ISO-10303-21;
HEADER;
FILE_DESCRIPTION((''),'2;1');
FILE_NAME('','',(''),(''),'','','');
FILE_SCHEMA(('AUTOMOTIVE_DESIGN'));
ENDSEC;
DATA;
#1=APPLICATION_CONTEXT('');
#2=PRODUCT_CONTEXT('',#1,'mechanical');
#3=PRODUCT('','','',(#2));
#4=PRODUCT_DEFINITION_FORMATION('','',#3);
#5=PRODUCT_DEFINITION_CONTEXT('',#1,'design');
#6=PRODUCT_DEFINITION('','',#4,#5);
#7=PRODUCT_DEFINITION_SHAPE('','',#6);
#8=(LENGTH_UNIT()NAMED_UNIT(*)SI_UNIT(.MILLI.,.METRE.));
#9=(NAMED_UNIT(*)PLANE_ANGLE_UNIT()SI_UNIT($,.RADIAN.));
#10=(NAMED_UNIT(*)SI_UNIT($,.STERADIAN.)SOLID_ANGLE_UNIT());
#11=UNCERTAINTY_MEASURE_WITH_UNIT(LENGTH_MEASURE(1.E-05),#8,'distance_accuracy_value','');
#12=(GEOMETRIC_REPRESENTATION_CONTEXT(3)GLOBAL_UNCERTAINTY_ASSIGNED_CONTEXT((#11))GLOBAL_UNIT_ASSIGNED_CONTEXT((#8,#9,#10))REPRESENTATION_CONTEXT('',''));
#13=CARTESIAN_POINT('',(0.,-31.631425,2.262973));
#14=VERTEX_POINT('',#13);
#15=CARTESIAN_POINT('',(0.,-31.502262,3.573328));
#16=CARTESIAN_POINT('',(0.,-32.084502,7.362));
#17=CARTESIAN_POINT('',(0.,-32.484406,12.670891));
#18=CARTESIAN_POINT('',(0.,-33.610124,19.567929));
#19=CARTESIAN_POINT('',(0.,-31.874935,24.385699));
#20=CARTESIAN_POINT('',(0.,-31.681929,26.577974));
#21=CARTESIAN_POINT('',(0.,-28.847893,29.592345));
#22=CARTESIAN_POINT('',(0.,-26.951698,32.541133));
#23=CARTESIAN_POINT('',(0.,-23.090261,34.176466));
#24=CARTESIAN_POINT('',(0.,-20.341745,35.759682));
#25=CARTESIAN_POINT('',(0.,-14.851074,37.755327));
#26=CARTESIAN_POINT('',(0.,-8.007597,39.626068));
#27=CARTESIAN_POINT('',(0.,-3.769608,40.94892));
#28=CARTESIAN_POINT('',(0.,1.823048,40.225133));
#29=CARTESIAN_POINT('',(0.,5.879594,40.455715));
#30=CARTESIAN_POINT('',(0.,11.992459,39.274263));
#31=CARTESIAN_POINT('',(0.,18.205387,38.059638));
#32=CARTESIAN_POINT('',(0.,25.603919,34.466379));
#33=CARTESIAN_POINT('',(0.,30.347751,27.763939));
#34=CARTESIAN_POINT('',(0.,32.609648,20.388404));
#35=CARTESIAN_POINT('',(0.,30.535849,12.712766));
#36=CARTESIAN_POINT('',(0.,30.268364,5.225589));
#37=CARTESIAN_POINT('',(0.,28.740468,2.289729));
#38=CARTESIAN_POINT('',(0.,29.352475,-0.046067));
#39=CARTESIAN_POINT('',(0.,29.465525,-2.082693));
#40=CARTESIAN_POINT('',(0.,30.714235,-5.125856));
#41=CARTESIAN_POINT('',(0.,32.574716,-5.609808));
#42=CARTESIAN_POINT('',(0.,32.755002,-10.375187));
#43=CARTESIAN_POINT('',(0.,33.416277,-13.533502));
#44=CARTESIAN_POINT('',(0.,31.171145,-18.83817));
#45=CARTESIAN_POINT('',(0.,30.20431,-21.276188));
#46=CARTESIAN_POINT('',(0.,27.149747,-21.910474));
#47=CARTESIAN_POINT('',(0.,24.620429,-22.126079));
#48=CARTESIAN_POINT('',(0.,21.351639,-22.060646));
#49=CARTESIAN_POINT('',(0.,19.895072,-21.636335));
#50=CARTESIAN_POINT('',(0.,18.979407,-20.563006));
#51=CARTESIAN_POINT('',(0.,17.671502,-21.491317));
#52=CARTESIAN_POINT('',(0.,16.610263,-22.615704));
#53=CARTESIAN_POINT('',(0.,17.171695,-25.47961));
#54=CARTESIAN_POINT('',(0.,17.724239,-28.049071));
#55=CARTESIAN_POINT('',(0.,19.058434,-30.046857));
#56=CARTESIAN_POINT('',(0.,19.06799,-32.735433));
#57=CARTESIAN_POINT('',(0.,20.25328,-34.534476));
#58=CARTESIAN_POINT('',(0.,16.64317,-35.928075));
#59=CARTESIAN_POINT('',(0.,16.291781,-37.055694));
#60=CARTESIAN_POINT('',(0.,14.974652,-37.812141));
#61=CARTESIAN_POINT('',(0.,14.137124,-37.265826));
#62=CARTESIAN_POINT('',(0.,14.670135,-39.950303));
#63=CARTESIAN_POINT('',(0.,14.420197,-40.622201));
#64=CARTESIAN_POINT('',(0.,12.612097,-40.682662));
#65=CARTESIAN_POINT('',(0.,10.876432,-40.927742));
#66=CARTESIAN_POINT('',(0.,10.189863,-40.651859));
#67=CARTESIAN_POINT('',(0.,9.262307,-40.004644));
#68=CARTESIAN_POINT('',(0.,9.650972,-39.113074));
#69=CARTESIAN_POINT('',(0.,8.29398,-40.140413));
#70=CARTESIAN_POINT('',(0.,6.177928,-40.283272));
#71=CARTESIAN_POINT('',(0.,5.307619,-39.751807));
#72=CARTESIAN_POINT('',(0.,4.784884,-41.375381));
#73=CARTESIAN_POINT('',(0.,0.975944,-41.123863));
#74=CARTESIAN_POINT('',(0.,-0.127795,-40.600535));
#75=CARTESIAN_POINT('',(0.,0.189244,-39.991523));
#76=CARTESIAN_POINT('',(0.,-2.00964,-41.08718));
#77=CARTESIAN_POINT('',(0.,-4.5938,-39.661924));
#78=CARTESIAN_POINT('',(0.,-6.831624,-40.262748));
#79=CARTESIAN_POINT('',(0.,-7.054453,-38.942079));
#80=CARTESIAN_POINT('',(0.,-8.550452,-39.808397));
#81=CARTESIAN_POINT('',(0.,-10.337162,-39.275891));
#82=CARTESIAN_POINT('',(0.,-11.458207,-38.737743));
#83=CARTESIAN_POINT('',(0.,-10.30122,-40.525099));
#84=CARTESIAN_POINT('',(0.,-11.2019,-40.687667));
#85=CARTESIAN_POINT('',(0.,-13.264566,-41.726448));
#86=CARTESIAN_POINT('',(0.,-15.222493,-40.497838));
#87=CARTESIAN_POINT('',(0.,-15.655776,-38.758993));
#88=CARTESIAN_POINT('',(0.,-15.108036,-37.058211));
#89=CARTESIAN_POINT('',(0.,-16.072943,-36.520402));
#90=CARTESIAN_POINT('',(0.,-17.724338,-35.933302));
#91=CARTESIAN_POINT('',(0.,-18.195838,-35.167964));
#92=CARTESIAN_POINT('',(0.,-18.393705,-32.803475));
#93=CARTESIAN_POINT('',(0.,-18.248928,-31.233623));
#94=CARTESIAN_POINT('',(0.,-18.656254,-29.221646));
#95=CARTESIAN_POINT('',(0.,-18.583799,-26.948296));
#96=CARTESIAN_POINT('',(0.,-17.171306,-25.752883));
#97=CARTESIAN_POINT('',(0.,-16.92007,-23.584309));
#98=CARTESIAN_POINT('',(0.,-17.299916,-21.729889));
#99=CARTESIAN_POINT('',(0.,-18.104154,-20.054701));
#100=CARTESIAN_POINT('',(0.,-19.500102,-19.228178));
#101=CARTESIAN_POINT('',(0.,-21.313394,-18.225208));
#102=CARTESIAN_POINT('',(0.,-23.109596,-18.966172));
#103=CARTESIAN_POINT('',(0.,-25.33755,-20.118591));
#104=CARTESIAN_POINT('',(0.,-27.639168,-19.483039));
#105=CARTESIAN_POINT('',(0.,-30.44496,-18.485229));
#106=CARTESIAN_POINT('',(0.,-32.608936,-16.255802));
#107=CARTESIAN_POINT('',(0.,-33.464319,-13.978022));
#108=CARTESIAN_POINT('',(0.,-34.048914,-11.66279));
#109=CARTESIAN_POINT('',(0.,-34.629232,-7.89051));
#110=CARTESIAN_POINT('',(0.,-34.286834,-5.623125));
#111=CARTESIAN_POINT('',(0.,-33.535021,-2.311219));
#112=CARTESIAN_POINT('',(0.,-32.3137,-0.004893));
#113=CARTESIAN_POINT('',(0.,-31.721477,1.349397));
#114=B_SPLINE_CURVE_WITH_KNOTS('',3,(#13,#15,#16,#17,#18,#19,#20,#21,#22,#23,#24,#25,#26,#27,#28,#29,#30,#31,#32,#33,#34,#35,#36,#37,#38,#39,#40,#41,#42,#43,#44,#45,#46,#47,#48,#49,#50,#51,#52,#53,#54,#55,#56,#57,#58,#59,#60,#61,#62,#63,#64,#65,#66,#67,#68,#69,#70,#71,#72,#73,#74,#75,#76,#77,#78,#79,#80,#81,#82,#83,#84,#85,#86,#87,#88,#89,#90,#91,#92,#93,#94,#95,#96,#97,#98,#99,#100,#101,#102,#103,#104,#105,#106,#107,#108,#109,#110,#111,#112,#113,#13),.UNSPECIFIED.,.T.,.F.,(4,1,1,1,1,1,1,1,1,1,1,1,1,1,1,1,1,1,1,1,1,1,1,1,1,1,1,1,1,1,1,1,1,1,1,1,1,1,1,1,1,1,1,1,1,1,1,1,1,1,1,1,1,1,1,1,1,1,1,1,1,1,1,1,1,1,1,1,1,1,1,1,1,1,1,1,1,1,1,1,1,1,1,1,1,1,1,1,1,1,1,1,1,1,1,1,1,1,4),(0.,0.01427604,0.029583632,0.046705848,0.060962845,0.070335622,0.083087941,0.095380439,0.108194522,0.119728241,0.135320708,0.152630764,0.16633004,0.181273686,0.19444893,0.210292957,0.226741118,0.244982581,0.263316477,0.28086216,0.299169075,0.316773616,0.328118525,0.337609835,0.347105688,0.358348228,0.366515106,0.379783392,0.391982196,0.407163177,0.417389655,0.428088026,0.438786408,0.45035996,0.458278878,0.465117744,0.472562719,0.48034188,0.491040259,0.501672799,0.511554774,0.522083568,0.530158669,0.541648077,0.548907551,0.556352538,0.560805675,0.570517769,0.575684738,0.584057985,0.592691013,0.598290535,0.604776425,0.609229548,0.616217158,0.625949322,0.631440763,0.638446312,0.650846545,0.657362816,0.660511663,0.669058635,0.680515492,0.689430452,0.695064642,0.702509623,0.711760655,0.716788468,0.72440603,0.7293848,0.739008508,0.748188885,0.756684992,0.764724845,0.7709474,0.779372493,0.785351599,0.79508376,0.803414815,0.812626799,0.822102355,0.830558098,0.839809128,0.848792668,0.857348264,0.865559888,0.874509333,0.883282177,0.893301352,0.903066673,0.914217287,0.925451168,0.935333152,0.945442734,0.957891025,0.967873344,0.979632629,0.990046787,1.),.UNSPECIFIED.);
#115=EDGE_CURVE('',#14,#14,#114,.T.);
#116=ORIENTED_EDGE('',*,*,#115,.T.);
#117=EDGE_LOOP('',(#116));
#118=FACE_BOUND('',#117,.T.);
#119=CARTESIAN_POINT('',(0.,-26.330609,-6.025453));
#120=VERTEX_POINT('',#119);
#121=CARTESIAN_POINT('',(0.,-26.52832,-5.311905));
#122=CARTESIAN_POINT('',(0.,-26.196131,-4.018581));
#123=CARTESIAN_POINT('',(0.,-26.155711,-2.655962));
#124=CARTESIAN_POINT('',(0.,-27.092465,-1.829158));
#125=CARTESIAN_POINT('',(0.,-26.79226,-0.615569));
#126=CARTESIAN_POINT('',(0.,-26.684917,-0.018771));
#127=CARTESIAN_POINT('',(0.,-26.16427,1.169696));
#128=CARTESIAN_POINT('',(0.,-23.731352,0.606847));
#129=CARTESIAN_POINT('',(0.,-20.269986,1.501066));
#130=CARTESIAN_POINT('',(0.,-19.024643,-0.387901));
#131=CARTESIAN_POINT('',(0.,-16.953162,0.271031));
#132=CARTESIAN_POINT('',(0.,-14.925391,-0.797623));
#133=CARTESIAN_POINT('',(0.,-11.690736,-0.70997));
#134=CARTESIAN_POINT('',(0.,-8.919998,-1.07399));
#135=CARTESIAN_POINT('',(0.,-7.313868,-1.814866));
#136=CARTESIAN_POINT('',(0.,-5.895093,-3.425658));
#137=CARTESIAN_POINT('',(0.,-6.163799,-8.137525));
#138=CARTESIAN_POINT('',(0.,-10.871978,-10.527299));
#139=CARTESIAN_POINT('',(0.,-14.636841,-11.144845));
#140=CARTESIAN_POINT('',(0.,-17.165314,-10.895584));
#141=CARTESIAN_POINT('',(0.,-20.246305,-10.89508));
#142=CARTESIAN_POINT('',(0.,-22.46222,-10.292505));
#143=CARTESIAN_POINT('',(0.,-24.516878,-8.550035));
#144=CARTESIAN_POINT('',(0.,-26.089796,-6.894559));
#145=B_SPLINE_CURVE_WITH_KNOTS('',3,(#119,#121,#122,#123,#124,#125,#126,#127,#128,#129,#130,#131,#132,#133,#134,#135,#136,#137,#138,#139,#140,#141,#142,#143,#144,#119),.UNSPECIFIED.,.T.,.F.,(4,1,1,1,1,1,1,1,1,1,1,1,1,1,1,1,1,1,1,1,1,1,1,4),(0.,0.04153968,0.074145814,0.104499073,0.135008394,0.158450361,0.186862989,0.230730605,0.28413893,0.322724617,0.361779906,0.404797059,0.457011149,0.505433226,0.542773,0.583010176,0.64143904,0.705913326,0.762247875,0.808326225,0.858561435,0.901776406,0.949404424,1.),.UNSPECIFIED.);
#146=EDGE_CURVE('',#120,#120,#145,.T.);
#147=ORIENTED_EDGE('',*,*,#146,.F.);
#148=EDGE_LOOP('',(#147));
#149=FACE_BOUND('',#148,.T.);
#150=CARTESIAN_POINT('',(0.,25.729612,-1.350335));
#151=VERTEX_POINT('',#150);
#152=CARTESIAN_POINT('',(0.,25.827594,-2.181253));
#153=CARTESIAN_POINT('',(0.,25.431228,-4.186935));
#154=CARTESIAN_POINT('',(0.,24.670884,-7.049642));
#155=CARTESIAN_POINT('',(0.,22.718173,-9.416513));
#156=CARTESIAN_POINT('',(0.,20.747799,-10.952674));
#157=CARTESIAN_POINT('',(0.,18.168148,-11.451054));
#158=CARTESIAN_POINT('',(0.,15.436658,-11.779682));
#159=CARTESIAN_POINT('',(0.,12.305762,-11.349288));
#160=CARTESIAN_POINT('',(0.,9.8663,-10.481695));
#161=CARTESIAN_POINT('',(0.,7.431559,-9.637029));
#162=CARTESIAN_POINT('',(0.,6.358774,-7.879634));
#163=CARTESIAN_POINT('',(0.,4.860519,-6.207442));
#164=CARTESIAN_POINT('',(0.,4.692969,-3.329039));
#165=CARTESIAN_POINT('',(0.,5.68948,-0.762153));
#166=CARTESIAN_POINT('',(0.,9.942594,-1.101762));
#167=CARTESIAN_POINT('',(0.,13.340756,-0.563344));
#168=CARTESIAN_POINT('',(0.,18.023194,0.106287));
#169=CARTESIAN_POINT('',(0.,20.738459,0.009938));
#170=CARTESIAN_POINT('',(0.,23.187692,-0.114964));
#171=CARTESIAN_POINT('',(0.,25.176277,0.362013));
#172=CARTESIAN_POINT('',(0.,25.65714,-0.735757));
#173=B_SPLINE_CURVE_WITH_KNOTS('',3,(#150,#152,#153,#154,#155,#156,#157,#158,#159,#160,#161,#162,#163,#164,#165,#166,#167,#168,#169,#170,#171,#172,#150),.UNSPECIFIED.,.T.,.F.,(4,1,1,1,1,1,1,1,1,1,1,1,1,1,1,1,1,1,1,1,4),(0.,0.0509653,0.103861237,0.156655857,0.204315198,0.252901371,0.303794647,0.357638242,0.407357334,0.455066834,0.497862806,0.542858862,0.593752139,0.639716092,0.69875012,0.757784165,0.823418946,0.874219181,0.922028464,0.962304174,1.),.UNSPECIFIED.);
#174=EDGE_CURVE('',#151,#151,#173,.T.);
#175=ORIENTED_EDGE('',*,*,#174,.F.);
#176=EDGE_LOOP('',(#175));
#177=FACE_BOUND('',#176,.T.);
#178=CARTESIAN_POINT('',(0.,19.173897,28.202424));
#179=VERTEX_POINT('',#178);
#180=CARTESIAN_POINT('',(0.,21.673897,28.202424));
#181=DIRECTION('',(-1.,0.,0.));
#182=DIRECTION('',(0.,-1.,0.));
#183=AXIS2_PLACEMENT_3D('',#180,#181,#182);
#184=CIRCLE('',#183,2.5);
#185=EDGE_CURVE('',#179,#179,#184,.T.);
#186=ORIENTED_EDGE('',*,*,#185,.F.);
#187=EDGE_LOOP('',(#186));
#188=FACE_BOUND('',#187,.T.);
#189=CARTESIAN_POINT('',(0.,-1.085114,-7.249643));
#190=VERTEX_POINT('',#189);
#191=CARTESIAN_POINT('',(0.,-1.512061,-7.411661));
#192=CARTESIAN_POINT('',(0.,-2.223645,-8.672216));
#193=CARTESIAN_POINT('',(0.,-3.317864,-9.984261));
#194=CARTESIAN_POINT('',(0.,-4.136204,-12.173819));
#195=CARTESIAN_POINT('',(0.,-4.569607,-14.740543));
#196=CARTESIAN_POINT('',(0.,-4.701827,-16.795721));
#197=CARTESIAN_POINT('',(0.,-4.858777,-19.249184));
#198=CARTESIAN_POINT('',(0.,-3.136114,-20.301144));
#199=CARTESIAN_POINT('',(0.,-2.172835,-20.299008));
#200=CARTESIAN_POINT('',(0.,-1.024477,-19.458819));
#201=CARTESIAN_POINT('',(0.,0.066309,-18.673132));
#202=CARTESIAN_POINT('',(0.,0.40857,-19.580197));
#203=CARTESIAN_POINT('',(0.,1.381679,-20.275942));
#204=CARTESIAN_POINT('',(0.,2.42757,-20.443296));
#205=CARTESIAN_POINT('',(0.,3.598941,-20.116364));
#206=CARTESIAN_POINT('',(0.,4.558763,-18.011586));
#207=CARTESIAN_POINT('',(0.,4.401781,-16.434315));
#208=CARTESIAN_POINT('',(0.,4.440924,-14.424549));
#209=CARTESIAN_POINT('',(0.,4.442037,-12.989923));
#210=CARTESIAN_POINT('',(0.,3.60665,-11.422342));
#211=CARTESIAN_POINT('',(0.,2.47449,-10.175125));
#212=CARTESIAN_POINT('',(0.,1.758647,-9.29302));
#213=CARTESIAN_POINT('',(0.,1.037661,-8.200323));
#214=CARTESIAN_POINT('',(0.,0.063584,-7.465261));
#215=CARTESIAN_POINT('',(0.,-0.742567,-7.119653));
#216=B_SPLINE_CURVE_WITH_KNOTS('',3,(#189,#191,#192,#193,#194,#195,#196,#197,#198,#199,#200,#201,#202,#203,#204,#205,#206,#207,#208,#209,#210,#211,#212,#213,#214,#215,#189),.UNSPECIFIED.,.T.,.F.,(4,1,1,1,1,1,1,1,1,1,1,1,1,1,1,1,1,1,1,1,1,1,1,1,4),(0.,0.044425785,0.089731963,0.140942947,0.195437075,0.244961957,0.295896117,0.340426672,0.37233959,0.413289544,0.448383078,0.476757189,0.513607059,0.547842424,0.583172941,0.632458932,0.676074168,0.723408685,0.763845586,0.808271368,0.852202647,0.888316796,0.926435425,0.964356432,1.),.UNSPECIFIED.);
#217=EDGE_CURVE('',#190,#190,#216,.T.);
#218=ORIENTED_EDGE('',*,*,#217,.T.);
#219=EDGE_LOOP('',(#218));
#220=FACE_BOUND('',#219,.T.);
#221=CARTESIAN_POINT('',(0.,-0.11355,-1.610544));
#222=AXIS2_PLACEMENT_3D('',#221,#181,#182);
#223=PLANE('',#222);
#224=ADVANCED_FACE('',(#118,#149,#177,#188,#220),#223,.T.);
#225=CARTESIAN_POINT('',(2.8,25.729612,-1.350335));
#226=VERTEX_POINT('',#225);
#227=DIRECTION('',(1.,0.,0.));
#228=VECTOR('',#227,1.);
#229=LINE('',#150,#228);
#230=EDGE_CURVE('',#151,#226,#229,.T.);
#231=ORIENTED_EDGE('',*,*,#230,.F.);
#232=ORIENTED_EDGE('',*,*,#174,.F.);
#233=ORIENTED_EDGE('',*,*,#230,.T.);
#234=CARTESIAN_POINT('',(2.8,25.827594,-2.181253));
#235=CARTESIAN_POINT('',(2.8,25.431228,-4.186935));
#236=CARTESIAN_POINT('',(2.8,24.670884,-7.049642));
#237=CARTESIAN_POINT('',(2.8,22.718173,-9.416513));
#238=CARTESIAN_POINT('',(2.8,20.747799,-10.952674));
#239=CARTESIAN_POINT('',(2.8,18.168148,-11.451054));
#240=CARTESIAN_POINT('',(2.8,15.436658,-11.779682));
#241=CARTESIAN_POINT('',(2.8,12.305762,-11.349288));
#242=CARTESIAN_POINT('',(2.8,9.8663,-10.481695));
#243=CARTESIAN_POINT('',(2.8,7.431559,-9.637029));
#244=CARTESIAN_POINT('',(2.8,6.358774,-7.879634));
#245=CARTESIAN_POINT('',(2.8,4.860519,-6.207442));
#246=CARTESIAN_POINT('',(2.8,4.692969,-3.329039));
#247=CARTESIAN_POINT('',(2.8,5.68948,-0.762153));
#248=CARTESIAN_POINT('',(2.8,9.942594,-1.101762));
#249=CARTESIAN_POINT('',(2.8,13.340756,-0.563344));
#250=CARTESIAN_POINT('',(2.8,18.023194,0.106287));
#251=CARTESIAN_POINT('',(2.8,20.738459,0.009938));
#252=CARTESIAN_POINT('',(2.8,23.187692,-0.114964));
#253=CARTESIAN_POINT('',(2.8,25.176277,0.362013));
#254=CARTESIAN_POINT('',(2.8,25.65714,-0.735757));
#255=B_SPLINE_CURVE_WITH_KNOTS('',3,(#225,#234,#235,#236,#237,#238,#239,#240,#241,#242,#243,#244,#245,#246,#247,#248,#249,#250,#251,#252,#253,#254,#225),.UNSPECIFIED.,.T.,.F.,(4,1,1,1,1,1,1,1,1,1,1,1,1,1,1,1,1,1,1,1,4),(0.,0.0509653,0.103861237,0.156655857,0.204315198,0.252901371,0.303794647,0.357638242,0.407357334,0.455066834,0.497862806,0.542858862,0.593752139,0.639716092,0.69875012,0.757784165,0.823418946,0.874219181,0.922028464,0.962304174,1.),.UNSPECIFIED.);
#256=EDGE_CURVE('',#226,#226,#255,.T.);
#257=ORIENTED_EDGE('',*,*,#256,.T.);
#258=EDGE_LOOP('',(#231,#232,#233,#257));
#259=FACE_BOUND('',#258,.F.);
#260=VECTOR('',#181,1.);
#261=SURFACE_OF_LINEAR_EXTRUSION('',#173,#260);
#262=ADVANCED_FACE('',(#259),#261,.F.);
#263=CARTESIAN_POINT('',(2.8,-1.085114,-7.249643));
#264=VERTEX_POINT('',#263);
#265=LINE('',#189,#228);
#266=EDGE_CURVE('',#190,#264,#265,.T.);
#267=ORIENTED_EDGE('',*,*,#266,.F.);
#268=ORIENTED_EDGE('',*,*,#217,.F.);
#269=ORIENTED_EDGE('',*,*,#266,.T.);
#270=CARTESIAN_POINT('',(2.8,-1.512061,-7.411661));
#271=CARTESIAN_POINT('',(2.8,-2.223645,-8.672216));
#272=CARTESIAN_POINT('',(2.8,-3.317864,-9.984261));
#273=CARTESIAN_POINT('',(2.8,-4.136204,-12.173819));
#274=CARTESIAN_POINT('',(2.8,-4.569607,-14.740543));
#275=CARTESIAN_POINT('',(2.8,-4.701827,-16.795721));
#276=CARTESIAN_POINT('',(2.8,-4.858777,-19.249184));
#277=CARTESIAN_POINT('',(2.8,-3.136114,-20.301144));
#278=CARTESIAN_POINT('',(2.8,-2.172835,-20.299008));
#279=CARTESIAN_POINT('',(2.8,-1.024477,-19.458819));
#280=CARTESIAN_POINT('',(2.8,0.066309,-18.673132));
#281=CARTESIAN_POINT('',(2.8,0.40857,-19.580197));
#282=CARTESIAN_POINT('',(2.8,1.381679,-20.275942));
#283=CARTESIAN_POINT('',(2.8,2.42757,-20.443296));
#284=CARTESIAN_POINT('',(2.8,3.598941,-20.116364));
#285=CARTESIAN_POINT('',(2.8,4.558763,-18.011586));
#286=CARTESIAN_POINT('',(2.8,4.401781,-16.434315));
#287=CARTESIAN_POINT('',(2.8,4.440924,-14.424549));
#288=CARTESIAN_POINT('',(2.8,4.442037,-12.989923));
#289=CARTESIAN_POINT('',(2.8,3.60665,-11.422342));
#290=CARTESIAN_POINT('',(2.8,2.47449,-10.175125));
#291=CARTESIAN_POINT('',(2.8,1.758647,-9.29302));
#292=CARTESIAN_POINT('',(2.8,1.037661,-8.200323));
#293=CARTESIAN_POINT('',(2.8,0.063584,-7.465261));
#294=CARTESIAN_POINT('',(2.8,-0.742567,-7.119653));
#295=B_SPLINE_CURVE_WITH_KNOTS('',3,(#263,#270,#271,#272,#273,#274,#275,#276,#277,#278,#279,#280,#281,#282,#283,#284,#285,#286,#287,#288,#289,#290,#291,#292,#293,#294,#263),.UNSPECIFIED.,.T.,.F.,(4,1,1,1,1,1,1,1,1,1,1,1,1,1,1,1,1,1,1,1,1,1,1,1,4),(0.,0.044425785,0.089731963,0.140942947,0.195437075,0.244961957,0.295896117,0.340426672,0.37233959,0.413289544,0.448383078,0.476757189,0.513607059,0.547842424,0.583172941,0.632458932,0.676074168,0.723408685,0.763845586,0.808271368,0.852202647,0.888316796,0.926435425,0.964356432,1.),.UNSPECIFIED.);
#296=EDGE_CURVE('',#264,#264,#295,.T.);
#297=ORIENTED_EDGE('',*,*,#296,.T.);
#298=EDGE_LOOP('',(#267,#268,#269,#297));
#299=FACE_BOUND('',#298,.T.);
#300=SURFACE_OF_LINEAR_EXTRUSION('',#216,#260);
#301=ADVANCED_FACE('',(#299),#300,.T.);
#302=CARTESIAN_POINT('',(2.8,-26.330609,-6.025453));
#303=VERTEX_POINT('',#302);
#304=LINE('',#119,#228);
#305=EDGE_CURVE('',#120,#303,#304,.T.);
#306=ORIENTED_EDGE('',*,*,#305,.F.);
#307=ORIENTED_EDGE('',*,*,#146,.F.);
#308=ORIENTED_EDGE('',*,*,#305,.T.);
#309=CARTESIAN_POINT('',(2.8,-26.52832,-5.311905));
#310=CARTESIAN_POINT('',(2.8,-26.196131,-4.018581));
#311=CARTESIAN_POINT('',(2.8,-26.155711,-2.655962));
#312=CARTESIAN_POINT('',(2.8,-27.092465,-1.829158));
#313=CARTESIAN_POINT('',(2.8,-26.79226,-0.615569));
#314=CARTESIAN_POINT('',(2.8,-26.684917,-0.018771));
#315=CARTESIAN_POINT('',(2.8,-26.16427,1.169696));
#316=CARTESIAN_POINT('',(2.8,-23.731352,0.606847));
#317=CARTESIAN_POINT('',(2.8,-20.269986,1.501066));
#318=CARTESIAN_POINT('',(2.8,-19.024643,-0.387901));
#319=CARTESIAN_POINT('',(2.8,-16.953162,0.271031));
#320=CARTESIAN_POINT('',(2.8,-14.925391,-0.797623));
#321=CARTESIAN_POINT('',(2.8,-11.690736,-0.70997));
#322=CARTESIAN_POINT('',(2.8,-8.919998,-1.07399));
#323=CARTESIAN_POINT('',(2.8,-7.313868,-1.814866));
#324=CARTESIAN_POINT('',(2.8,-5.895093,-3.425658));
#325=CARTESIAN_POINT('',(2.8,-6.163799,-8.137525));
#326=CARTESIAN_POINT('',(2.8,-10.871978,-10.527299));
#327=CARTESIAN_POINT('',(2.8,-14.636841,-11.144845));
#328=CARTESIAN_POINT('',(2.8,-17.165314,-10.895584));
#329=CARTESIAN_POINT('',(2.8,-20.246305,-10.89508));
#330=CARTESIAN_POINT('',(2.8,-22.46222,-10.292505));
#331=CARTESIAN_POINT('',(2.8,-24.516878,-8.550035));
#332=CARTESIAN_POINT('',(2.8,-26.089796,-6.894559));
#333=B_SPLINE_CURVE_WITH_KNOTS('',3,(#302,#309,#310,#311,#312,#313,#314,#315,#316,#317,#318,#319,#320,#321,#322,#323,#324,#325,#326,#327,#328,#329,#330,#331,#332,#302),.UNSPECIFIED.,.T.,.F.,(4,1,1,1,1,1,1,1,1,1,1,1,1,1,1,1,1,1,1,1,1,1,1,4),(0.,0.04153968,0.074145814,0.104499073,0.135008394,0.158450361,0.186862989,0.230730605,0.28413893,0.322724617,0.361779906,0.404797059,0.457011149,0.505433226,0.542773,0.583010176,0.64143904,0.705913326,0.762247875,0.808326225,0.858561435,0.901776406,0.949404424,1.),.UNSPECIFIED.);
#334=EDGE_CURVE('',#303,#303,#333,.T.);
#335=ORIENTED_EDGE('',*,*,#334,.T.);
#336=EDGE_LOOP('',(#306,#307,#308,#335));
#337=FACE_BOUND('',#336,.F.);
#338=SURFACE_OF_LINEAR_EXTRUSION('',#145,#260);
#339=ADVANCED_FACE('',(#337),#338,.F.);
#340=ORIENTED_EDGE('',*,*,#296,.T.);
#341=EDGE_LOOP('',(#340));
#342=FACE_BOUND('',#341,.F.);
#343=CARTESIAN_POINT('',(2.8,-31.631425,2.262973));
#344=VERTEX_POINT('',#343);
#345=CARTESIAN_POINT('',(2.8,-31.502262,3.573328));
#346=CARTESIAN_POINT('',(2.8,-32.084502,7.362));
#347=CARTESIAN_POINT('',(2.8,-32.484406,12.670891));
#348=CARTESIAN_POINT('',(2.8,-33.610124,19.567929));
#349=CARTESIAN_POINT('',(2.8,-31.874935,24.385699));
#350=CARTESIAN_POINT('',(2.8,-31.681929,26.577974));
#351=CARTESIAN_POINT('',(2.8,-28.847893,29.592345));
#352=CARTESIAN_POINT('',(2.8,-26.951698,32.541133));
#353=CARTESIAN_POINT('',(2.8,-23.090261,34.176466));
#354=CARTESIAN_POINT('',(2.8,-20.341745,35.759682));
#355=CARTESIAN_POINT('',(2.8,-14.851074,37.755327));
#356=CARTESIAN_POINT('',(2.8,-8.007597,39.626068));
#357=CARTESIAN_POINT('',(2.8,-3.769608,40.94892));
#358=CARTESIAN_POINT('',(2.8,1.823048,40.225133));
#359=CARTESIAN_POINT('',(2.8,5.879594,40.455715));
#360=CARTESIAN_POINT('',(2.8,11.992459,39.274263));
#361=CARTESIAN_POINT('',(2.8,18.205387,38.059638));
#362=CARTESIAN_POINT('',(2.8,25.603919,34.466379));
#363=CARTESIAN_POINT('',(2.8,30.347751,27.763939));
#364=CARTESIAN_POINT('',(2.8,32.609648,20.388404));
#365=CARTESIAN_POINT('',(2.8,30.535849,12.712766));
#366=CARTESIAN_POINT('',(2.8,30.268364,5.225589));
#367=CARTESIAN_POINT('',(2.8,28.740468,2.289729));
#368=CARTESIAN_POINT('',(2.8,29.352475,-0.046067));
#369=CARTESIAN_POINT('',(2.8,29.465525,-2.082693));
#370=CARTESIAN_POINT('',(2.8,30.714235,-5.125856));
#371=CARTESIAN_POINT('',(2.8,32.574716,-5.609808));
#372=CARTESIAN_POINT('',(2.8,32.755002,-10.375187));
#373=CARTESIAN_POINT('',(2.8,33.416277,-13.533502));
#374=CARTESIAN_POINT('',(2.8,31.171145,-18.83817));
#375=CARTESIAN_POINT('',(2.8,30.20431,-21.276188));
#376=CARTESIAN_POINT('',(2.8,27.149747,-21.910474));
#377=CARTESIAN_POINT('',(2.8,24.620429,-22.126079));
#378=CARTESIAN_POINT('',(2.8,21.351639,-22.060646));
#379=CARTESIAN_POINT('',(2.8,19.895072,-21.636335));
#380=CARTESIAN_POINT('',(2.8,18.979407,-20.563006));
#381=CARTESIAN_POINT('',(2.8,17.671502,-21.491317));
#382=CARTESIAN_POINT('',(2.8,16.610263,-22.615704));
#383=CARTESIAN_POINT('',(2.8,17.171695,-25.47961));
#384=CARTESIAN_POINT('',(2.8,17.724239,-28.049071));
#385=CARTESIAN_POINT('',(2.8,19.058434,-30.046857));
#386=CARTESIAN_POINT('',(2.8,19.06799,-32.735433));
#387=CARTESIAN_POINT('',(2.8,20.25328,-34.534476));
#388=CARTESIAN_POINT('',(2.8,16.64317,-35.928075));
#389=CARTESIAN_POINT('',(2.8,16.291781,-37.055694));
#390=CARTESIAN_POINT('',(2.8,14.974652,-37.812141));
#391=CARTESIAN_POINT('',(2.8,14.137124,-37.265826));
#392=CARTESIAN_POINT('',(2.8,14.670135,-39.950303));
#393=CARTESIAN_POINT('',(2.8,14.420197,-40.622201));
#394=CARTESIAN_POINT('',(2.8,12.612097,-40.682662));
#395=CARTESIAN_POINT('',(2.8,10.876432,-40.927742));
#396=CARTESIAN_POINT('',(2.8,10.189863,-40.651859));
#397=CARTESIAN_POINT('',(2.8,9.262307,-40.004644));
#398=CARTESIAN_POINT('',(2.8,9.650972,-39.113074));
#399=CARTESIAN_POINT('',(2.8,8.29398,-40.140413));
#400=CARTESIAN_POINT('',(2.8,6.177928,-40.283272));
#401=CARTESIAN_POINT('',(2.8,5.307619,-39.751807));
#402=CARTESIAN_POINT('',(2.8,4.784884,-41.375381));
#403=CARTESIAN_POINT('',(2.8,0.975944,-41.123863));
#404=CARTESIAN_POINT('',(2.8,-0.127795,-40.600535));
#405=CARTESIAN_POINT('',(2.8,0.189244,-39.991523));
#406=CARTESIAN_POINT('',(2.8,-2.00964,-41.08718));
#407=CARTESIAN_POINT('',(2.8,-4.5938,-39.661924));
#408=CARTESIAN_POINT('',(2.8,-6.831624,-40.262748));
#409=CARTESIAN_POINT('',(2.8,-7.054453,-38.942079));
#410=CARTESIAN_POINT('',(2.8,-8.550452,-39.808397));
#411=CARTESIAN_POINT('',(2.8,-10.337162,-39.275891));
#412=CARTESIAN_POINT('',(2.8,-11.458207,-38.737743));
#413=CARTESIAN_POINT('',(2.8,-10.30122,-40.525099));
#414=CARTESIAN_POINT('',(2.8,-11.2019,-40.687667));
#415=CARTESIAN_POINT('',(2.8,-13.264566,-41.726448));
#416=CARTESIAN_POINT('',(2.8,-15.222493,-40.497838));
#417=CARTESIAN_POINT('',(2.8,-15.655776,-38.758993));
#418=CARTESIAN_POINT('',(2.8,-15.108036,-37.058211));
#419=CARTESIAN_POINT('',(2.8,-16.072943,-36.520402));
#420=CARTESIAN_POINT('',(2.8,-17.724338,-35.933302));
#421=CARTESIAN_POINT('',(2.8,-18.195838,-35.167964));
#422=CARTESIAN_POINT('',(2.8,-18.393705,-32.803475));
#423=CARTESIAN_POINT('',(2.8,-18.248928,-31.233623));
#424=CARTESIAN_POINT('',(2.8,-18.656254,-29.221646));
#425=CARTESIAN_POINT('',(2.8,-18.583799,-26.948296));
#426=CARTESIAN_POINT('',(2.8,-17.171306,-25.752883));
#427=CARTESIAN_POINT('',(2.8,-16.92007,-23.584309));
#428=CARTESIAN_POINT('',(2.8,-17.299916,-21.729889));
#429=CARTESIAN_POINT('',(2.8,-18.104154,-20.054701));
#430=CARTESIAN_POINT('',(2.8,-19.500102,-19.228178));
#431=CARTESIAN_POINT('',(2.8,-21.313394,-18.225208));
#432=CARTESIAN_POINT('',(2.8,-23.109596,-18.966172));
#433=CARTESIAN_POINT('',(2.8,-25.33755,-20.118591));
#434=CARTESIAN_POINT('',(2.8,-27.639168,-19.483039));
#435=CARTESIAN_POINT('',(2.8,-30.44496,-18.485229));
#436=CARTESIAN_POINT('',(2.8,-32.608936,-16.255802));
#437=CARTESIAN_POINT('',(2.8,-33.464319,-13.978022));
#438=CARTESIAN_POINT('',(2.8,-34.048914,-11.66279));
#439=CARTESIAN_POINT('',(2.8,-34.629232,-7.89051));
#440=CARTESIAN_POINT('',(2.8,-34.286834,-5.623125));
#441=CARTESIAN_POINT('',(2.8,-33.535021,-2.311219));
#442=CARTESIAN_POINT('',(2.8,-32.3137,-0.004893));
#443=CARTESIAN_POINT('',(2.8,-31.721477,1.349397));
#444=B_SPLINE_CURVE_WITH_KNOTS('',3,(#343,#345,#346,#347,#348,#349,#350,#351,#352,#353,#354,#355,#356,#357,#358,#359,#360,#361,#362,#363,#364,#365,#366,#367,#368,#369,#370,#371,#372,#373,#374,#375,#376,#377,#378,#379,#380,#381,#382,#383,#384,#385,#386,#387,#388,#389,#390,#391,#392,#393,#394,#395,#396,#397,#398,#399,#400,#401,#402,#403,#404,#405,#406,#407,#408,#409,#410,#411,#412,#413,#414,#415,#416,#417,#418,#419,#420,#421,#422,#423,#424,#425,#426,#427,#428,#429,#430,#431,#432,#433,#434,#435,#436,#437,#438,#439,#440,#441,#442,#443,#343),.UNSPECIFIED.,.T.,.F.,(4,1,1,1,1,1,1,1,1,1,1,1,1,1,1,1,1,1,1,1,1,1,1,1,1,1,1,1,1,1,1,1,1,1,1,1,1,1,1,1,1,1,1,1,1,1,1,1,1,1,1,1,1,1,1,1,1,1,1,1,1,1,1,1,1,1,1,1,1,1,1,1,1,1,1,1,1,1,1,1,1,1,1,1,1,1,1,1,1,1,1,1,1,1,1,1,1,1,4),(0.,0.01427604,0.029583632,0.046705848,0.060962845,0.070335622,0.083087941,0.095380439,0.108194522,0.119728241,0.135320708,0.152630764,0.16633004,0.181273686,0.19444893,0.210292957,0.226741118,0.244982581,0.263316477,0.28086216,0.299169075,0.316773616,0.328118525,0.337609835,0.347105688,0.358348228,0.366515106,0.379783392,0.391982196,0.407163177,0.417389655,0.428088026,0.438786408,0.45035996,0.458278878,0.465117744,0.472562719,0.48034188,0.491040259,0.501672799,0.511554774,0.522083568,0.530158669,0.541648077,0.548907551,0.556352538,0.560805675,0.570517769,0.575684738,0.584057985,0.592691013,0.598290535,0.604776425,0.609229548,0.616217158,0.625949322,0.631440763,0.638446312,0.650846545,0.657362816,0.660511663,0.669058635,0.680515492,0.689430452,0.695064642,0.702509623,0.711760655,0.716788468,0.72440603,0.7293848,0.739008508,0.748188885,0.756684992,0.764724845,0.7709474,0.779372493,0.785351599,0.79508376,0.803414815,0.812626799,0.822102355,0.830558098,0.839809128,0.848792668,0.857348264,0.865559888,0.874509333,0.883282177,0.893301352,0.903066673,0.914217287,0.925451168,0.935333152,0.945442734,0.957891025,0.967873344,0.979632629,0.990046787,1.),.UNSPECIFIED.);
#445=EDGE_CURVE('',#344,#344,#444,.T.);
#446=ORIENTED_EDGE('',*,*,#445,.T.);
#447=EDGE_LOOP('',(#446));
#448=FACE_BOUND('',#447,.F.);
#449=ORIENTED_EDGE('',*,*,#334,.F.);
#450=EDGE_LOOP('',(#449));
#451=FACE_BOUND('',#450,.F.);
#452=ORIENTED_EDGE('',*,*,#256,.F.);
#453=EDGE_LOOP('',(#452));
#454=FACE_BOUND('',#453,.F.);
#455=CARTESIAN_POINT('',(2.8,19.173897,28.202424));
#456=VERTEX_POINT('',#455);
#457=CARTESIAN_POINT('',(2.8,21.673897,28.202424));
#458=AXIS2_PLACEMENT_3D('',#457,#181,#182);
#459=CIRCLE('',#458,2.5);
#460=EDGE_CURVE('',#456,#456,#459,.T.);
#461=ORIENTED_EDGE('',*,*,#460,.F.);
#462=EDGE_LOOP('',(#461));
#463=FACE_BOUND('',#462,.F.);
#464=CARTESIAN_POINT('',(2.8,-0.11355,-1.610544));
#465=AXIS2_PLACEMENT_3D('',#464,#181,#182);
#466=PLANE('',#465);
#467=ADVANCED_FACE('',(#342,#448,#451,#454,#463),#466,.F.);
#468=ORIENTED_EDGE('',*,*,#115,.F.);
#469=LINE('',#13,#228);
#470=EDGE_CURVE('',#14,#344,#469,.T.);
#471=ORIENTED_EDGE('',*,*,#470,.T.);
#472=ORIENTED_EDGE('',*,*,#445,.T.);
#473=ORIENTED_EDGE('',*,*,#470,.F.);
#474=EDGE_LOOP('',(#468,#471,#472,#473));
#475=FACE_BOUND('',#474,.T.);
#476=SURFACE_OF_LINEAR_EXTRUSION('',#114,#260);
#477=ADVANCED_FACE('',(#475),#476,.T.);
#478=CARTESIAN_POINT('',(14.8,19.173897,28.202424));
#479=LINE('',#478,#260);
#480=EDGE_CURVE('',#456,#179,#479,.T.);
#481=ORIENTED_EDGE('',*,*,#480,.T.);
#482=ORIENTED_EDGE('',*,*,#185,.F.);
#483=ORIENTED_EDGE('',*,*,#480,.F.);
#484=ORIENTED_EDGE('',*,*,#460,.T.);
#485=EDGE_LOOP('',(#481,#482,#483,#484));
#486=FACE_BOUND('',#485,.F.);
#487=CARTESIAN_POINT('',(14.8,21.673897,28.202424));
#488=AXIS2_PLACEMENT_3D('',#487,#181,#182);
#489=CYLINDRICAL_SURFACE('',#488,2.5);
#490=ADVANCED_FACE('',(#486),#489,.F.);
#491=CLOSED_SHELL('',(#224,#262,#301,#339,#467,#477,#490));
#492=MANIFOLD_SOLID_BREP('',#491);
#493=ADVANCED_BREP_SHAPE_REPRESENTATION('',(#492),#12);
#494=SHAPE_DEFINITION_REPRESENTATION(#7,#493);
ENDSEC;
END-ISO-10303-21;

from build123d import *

# Parameters (mm, degrees)
F1_DEPTH = 2.8
F3_D     = 5
F3_DEPTH = 12
F3_TIP   = 1.5021515476


with BuildPart() as f1:
    # F0 (on Right) → F1 (new body)
    with BuildSketch(Plane.YZ):
        with BuildLine():
            add(Edge.make_bspline(
                [(-31.6314250231, 2.2629725281), (-31.5022623164, 3.5733278366), (-32.084502177, 7.3619998692), (-32.4844055662, 12.6708908589), (-33.6101237688, 19.5679290559), (-31.8749353357, 24.3856987582), (-31.6819292031, 26.577974251), (-28.8478925272, 29.5923452072), (-26.9516979755, 32.5411333424), (-23.0902606737, 34.1764656739), (-20.3417451234, 35.7596815072), (-14.8510739911, 37.7553266229), (-8.0075966645, 39.6260680616), (-3.7696084608, 40.9489200556), (1.8230478813, 40.2251331616), (5.8795939333, 40.4557153094), (11.9924587544, 39.2742631608), (18.2053867557, 38.0596382358), (25.6039190844, 34.4663788307), (30.3477510722, 27.7639385741), (32.609647658, 20.3884039898), (30.5358488311, 12.7127659233), (30.2683636428, 5.225589462), (28.7404681221, 2.2897290208), (29.35247476, -0.0460668851), (29.4655249933, -2.082693469), (30.7142346925, -5.1258556332), (32.5747163593, -5.6098080438), (32.7550017093, -10.3751868098), (33.4162771331, -13.5335015531), (31.1711451307, -18.8381701672), (30.2043096136, -21.2761877418), (27.1497466502, -21.910473819), (24.6204287526, -22.1260786927), (21.3516390426, -22.06064594), (19.8950718849, -21.6363351622), (18.9794068191, -20.563005512), (17.6715018273, -21.4913173359), (16.6102626634, -22.615703616), (17.1716949775, -25.4796103361), (17.724239368, -28.0490707881), (19.0584342215, -30.0468571883), (19.0679897719, -32.7354327798), (20.2532798574, -34.5344759712), (16.6431701751, -35.9280746948), (16.2917811625, -37.0556937467), (14.9746520078, -37.8121406605), (14.1371239621, -37.2658261761), (14.6701345687, -39.9503025074), (14.4201972443, -40.6222009547), (12.6120965441, -40.6826616076), (10.8764323796, -40.927741529), (10.1898631843, -40.6518586038), (9.2623073388, -40.0046444825), (9.6509716962, -39.11307364), (8.293980207, -40.1404125012), (6.1779280331, -40.2832716168), (5.3076190837, -39.7518074948), (4.7848842589, -41.3753808122), (0.975944202, -41.1238626395), (-0.1277951166, -40.6005348989), (0.1892436437, -39.9915230028), (-2.0096399663, -41.0871800395), (-4.5937995713, -39.661924332), (-6.8316242034, -40.2627476398), (-7.0544525318, -38.9420787761), (-8.5504516298, -39.8083971229), (-10.3371623423, -39.2758905561), (-11.4582065147, -38.7377431115), (-10.3012195242, -40.5250985757), (-11.2019003886, -40.6876665839), (-13.2645655584, -41.7264478956), (-15.2224926666, -40.4978380116), (-15.6557756408, -38.7589927772), (-15.1080358398, -37.0582113625), (-16.0729426236, -36.5204023925), (-17.7243382602, -35.9333015983), (-18.1958375795, -35.1679641402), (-18.3937046444, -32.8034747843), (-18.2489276481, -31.233623049), (-18.6562535067, -29.2216456196), (-18.583799391, -26.9482960105), (-17.1713062303, -25.7528830491), (-16.9200697947, -23.5843088851), (-17.2999157212, -21.7298889668), (-18.1041544482, -20.0547013892), (-19.5001016745, -19.2281783841), (-21.3133935819, -18.2252082048), (-23.1095959026, -18.9661716558), (-25.3375502669, -20.118591249), (-27.6391682762, -19.4830394962), (-30.4449597159, -18.4852287667), (-32.6089356456, -16.2558015239), (-33.4643189869, -13.9780219257), (-34.0489142028, -11.6627900546), (-34.6292324905, -7.8905100759), (-34.2868338655, -5.6231252409), (-33.535021119, -2.3112187309), (-32.3137000658, -0.0048927787), (-31.7214768755, 1.3493967297), (-31.6314250231, 2.2629725281)],
                knots=[0, 0, 0, 0, 0.0142760402, 0.0295836316, 0.046705848, 0.0609628448, 0.0703356222, 0.083087941, 0.0953804389, 0.1081945223, 0.1197282407, 0.135320708, 0.1526307644, 0.16633004, 0.1812736863, 0.1944489303, 0.2102929566, 0.2267411176, 0.2449825815, 0.2633164769, 0.2808621604, 0.2991690751, 0.3167736161, 0.3281185248, 0.337609835, 0.3471056882, 0.3583482275, 0.3665151062, 0.3797833925, 0.3919821963, 0.4071631773, 0.4173896553, 0.428088026, 0.4387864081, 0.4503599599, 0.4582788779, 0.4651177435, 0.4725627189, 0.4803418803, 0.4910402587, 0.5016727989, 0.5115547742, 0.522083568, 0.5301586692, 0.5416480772, 0.5489075512, 0.5563525383, 0.5608056749, 0.570517769, 0.5756847377, 0.5840579845, 0.5926910133, 0.598290535, 0.6047764249, 0.6092295484, 0.6162171578, 0.6259493222, 0.6314407632, 0.6384463122, 0.6508465448, 0.6573628164, 0.6605116626, 0.6690586346, 0.680515492, 0.6894304517, 0.6950646418, 0.7025096225, 0.7117606553, 0.7167884685, 0.7244060303, 0.7293847995, 0.7390085077, 0.7481888854, 0.7566849916, 0.7647248455, 0.7709474004, 0.7793724933, 0.785351599, 0.7950837605, 0.8034148151, 0.8126267986, 0.822102355, 0.8305580977, 0.8398091284, 0.8487926684, 0.8573482641, 0.8655598876, 0.8745093326, 0.8832821773, 0.8933013517, 0.9030666728, 0.9142172874, 0.9254511684, 0.9353331523, 0.9454427343, 0.9578910246, 0.9678733438, 0.9796326287, 0.9900467875, 1, 1, 1, 1], degree=3))
        make_face()
        with BuildLine():
            add(Edge.make_bspline(
                [(-26.3306088746, -6.0254530981), (-26.5283195156, -5.3119049084), (-26.1961312704, -4.0185808443), (-26.1557107856, -2.6559615251), (-27.0924647305, -1.8291575038), (-26.7922602428, -0.6155688692), (-26.6849174237, -0.0187712865), (-26.1642700205, 1.1696957047), (-23.7313517024, 0.6068469368), (-20.2699860904, 1.5010658887), (-19.024643496, -0.3879012178), (-16.9531619567, 0.2710314914), (-14.9253911858, -0.7976226828), (-11.690736213, -0.7099703765), (-8.9199980678, -1.0739900526), (-7.3138682475, -1.8148664381), (-5.8950928412, -3.425657521), (-6.1637992621, -8.1375247192), (-10.8719776339, -10.5272985443), (-14.636840646, -11.1448452375), (-17.1653136795, -10.8955841942), (-20.2463046813, -10.8950799807), (-22.4622204598, -10.292504707), (-24.5168781089, -8.5500352318), (-26.0897961411, -6.8945590255), (-26.3306088746, -6.0254530981)],
                knots=[0, 0, 0, 0, 0.0415396795, 0.0741458137, 0.1044990729, 0.1350083938, 0.1584503614, 0.1868629888, 0.2307306047, 0.2841389297, 0.3227246174, 0.361779906, 0.4047970594, 0.4570111489, 0.5054332265, 0.5427730004, 0.5830101759, 0.6414390397, 0.705913326, 0.762247875, 0.8083262253, 0.8585614354, 0.9017764056, 0.949404424, 1, 1, 1, 1], degree=3))
        make_face(mode=Mode.SUBTRACT)
        with BuildLine():
            add(Edge.make_bspline(
                [(-1.0851139668, -7.2496430948), (-1.5120607503, -7.4116611526), (-2.2236452859, -8.6722162059), (-3.3178640935, -9.9842610557), (-4.1362040293, -12.1738191765), (-4.5696069418, -14.7405431581), (-4.7018265766, -16.795721495), (-4.8587774946, -19.2491839678), (-3.1361141762, -20.3011438778), (-2.1728349039, -20.2990077162), (-1.0244765757, -19.4588193387), (0.0663091363, -18.6731318761), (0.4085698484, -19.5801972927), (1.3816794678, -20.2759420429), (2.4275696185, -20.4432962933), (3.5989412375, -20.1163641992), (4.5587626286, -18.0115860604), (4.4017808074, -16.4343147287), (4.4409244583, -14.4245494838), (4.4420371761, -12.9899232567), (3.6066499355, -11.42234236), (2.474490193, -10.1751245714), (1.7586472898, -9.2930199226), (1.0376614626, -8.2003226498), (0.0635836006, -7.4652608611), (-0.7425672471, -7.119653231), (-1.0851139668, -7.2496430948)],
                knots=[0, 0, 0, 0, 0.0444257847, 0.0897319635, 0.1409429475, 0.1954370754, 0.244961957, 0.2958961167, 0.3404266717, 0.3723395902, 0.4132895439, 0.4483830783, 0.4767571893, 0.5136070588, 0.5478424243, 0.5831729405, 0.6324589319, 0.6760741677, 0.7234086849, 0.7638455861, 0.8082713676, 0.852202647, 0.888316796, 0.9264354253, 0.9643564318, 1, 1, 1, 1], degree=3))
        make_face(mode=Mode.SUBTRACT)
        with BuildLine():
            add(Edge.make_bspline(
                [(25.729611516, -1.3503346127), (25.8275936321, -2.1812529322), (25.4312284956, -4.1869351714), (24.6708839052, -7.0496417371), (22.7181726666, -9.4165126052), (20.7477987266, -10.9526736764), (18.1681475002, -11.45105387), (15.4366575246, -11.7796823356), (12.3057618991, -11.3492880557), (9.8662999384, -10.4816951271), (7.4315588717, -9.6370285147), (6.3587737141, -7.8796340816), (4.8605186328, -6.2074416625), (4.6929685753, -3.3290388668), (5.6894801359, -0.7621527055), (9.9425944197, -1.1017615836), (13.3407564623, -0.5633437769), (18.0231937423, 0.1062870296), (20.7384591281, 0.0099379212), (23.1876923271, -0.1149635984), (25.176276507, 0.3620127301), (25.6571403083, -0.735756601), (25.729611516, -1.3503346127)],
                knots=[0, 0, 0, 0, 0.0509652997, 0.1038612368, 0.156655857, 0.2043151978, 0.2529013706, 0.3037946473, 0.3576382423, 0.4073573338, 0.4550668343, 0.4978628056, 0.5428588618, 0.5937521389, 0.6397160923, 0.6987501197, 0.7577841653, 0.8234189464, 0.8742191808, 0.9220284643, 0.9623041738, 1, 1, 1, 1], degree=3))
        make_face(mode=Mode.SUBTRACT)
    extrude(amount=F1_DEPTH)

    # F3
    with Locations(Plane.YZ.offset(2.8)):
        with Locations((21.6738972813, 28.2024238259)):
            Hole(F3_D / 2, depth=F3_DEPTH)
            with Locations((0, 0, -(F3_DEPTH + F3_TIP / 2))):  # 118° drill point
                Cone(0, F3_D / 2, F3_TIP, mode=Mode.SUBTRACT)


solid = f1.part
